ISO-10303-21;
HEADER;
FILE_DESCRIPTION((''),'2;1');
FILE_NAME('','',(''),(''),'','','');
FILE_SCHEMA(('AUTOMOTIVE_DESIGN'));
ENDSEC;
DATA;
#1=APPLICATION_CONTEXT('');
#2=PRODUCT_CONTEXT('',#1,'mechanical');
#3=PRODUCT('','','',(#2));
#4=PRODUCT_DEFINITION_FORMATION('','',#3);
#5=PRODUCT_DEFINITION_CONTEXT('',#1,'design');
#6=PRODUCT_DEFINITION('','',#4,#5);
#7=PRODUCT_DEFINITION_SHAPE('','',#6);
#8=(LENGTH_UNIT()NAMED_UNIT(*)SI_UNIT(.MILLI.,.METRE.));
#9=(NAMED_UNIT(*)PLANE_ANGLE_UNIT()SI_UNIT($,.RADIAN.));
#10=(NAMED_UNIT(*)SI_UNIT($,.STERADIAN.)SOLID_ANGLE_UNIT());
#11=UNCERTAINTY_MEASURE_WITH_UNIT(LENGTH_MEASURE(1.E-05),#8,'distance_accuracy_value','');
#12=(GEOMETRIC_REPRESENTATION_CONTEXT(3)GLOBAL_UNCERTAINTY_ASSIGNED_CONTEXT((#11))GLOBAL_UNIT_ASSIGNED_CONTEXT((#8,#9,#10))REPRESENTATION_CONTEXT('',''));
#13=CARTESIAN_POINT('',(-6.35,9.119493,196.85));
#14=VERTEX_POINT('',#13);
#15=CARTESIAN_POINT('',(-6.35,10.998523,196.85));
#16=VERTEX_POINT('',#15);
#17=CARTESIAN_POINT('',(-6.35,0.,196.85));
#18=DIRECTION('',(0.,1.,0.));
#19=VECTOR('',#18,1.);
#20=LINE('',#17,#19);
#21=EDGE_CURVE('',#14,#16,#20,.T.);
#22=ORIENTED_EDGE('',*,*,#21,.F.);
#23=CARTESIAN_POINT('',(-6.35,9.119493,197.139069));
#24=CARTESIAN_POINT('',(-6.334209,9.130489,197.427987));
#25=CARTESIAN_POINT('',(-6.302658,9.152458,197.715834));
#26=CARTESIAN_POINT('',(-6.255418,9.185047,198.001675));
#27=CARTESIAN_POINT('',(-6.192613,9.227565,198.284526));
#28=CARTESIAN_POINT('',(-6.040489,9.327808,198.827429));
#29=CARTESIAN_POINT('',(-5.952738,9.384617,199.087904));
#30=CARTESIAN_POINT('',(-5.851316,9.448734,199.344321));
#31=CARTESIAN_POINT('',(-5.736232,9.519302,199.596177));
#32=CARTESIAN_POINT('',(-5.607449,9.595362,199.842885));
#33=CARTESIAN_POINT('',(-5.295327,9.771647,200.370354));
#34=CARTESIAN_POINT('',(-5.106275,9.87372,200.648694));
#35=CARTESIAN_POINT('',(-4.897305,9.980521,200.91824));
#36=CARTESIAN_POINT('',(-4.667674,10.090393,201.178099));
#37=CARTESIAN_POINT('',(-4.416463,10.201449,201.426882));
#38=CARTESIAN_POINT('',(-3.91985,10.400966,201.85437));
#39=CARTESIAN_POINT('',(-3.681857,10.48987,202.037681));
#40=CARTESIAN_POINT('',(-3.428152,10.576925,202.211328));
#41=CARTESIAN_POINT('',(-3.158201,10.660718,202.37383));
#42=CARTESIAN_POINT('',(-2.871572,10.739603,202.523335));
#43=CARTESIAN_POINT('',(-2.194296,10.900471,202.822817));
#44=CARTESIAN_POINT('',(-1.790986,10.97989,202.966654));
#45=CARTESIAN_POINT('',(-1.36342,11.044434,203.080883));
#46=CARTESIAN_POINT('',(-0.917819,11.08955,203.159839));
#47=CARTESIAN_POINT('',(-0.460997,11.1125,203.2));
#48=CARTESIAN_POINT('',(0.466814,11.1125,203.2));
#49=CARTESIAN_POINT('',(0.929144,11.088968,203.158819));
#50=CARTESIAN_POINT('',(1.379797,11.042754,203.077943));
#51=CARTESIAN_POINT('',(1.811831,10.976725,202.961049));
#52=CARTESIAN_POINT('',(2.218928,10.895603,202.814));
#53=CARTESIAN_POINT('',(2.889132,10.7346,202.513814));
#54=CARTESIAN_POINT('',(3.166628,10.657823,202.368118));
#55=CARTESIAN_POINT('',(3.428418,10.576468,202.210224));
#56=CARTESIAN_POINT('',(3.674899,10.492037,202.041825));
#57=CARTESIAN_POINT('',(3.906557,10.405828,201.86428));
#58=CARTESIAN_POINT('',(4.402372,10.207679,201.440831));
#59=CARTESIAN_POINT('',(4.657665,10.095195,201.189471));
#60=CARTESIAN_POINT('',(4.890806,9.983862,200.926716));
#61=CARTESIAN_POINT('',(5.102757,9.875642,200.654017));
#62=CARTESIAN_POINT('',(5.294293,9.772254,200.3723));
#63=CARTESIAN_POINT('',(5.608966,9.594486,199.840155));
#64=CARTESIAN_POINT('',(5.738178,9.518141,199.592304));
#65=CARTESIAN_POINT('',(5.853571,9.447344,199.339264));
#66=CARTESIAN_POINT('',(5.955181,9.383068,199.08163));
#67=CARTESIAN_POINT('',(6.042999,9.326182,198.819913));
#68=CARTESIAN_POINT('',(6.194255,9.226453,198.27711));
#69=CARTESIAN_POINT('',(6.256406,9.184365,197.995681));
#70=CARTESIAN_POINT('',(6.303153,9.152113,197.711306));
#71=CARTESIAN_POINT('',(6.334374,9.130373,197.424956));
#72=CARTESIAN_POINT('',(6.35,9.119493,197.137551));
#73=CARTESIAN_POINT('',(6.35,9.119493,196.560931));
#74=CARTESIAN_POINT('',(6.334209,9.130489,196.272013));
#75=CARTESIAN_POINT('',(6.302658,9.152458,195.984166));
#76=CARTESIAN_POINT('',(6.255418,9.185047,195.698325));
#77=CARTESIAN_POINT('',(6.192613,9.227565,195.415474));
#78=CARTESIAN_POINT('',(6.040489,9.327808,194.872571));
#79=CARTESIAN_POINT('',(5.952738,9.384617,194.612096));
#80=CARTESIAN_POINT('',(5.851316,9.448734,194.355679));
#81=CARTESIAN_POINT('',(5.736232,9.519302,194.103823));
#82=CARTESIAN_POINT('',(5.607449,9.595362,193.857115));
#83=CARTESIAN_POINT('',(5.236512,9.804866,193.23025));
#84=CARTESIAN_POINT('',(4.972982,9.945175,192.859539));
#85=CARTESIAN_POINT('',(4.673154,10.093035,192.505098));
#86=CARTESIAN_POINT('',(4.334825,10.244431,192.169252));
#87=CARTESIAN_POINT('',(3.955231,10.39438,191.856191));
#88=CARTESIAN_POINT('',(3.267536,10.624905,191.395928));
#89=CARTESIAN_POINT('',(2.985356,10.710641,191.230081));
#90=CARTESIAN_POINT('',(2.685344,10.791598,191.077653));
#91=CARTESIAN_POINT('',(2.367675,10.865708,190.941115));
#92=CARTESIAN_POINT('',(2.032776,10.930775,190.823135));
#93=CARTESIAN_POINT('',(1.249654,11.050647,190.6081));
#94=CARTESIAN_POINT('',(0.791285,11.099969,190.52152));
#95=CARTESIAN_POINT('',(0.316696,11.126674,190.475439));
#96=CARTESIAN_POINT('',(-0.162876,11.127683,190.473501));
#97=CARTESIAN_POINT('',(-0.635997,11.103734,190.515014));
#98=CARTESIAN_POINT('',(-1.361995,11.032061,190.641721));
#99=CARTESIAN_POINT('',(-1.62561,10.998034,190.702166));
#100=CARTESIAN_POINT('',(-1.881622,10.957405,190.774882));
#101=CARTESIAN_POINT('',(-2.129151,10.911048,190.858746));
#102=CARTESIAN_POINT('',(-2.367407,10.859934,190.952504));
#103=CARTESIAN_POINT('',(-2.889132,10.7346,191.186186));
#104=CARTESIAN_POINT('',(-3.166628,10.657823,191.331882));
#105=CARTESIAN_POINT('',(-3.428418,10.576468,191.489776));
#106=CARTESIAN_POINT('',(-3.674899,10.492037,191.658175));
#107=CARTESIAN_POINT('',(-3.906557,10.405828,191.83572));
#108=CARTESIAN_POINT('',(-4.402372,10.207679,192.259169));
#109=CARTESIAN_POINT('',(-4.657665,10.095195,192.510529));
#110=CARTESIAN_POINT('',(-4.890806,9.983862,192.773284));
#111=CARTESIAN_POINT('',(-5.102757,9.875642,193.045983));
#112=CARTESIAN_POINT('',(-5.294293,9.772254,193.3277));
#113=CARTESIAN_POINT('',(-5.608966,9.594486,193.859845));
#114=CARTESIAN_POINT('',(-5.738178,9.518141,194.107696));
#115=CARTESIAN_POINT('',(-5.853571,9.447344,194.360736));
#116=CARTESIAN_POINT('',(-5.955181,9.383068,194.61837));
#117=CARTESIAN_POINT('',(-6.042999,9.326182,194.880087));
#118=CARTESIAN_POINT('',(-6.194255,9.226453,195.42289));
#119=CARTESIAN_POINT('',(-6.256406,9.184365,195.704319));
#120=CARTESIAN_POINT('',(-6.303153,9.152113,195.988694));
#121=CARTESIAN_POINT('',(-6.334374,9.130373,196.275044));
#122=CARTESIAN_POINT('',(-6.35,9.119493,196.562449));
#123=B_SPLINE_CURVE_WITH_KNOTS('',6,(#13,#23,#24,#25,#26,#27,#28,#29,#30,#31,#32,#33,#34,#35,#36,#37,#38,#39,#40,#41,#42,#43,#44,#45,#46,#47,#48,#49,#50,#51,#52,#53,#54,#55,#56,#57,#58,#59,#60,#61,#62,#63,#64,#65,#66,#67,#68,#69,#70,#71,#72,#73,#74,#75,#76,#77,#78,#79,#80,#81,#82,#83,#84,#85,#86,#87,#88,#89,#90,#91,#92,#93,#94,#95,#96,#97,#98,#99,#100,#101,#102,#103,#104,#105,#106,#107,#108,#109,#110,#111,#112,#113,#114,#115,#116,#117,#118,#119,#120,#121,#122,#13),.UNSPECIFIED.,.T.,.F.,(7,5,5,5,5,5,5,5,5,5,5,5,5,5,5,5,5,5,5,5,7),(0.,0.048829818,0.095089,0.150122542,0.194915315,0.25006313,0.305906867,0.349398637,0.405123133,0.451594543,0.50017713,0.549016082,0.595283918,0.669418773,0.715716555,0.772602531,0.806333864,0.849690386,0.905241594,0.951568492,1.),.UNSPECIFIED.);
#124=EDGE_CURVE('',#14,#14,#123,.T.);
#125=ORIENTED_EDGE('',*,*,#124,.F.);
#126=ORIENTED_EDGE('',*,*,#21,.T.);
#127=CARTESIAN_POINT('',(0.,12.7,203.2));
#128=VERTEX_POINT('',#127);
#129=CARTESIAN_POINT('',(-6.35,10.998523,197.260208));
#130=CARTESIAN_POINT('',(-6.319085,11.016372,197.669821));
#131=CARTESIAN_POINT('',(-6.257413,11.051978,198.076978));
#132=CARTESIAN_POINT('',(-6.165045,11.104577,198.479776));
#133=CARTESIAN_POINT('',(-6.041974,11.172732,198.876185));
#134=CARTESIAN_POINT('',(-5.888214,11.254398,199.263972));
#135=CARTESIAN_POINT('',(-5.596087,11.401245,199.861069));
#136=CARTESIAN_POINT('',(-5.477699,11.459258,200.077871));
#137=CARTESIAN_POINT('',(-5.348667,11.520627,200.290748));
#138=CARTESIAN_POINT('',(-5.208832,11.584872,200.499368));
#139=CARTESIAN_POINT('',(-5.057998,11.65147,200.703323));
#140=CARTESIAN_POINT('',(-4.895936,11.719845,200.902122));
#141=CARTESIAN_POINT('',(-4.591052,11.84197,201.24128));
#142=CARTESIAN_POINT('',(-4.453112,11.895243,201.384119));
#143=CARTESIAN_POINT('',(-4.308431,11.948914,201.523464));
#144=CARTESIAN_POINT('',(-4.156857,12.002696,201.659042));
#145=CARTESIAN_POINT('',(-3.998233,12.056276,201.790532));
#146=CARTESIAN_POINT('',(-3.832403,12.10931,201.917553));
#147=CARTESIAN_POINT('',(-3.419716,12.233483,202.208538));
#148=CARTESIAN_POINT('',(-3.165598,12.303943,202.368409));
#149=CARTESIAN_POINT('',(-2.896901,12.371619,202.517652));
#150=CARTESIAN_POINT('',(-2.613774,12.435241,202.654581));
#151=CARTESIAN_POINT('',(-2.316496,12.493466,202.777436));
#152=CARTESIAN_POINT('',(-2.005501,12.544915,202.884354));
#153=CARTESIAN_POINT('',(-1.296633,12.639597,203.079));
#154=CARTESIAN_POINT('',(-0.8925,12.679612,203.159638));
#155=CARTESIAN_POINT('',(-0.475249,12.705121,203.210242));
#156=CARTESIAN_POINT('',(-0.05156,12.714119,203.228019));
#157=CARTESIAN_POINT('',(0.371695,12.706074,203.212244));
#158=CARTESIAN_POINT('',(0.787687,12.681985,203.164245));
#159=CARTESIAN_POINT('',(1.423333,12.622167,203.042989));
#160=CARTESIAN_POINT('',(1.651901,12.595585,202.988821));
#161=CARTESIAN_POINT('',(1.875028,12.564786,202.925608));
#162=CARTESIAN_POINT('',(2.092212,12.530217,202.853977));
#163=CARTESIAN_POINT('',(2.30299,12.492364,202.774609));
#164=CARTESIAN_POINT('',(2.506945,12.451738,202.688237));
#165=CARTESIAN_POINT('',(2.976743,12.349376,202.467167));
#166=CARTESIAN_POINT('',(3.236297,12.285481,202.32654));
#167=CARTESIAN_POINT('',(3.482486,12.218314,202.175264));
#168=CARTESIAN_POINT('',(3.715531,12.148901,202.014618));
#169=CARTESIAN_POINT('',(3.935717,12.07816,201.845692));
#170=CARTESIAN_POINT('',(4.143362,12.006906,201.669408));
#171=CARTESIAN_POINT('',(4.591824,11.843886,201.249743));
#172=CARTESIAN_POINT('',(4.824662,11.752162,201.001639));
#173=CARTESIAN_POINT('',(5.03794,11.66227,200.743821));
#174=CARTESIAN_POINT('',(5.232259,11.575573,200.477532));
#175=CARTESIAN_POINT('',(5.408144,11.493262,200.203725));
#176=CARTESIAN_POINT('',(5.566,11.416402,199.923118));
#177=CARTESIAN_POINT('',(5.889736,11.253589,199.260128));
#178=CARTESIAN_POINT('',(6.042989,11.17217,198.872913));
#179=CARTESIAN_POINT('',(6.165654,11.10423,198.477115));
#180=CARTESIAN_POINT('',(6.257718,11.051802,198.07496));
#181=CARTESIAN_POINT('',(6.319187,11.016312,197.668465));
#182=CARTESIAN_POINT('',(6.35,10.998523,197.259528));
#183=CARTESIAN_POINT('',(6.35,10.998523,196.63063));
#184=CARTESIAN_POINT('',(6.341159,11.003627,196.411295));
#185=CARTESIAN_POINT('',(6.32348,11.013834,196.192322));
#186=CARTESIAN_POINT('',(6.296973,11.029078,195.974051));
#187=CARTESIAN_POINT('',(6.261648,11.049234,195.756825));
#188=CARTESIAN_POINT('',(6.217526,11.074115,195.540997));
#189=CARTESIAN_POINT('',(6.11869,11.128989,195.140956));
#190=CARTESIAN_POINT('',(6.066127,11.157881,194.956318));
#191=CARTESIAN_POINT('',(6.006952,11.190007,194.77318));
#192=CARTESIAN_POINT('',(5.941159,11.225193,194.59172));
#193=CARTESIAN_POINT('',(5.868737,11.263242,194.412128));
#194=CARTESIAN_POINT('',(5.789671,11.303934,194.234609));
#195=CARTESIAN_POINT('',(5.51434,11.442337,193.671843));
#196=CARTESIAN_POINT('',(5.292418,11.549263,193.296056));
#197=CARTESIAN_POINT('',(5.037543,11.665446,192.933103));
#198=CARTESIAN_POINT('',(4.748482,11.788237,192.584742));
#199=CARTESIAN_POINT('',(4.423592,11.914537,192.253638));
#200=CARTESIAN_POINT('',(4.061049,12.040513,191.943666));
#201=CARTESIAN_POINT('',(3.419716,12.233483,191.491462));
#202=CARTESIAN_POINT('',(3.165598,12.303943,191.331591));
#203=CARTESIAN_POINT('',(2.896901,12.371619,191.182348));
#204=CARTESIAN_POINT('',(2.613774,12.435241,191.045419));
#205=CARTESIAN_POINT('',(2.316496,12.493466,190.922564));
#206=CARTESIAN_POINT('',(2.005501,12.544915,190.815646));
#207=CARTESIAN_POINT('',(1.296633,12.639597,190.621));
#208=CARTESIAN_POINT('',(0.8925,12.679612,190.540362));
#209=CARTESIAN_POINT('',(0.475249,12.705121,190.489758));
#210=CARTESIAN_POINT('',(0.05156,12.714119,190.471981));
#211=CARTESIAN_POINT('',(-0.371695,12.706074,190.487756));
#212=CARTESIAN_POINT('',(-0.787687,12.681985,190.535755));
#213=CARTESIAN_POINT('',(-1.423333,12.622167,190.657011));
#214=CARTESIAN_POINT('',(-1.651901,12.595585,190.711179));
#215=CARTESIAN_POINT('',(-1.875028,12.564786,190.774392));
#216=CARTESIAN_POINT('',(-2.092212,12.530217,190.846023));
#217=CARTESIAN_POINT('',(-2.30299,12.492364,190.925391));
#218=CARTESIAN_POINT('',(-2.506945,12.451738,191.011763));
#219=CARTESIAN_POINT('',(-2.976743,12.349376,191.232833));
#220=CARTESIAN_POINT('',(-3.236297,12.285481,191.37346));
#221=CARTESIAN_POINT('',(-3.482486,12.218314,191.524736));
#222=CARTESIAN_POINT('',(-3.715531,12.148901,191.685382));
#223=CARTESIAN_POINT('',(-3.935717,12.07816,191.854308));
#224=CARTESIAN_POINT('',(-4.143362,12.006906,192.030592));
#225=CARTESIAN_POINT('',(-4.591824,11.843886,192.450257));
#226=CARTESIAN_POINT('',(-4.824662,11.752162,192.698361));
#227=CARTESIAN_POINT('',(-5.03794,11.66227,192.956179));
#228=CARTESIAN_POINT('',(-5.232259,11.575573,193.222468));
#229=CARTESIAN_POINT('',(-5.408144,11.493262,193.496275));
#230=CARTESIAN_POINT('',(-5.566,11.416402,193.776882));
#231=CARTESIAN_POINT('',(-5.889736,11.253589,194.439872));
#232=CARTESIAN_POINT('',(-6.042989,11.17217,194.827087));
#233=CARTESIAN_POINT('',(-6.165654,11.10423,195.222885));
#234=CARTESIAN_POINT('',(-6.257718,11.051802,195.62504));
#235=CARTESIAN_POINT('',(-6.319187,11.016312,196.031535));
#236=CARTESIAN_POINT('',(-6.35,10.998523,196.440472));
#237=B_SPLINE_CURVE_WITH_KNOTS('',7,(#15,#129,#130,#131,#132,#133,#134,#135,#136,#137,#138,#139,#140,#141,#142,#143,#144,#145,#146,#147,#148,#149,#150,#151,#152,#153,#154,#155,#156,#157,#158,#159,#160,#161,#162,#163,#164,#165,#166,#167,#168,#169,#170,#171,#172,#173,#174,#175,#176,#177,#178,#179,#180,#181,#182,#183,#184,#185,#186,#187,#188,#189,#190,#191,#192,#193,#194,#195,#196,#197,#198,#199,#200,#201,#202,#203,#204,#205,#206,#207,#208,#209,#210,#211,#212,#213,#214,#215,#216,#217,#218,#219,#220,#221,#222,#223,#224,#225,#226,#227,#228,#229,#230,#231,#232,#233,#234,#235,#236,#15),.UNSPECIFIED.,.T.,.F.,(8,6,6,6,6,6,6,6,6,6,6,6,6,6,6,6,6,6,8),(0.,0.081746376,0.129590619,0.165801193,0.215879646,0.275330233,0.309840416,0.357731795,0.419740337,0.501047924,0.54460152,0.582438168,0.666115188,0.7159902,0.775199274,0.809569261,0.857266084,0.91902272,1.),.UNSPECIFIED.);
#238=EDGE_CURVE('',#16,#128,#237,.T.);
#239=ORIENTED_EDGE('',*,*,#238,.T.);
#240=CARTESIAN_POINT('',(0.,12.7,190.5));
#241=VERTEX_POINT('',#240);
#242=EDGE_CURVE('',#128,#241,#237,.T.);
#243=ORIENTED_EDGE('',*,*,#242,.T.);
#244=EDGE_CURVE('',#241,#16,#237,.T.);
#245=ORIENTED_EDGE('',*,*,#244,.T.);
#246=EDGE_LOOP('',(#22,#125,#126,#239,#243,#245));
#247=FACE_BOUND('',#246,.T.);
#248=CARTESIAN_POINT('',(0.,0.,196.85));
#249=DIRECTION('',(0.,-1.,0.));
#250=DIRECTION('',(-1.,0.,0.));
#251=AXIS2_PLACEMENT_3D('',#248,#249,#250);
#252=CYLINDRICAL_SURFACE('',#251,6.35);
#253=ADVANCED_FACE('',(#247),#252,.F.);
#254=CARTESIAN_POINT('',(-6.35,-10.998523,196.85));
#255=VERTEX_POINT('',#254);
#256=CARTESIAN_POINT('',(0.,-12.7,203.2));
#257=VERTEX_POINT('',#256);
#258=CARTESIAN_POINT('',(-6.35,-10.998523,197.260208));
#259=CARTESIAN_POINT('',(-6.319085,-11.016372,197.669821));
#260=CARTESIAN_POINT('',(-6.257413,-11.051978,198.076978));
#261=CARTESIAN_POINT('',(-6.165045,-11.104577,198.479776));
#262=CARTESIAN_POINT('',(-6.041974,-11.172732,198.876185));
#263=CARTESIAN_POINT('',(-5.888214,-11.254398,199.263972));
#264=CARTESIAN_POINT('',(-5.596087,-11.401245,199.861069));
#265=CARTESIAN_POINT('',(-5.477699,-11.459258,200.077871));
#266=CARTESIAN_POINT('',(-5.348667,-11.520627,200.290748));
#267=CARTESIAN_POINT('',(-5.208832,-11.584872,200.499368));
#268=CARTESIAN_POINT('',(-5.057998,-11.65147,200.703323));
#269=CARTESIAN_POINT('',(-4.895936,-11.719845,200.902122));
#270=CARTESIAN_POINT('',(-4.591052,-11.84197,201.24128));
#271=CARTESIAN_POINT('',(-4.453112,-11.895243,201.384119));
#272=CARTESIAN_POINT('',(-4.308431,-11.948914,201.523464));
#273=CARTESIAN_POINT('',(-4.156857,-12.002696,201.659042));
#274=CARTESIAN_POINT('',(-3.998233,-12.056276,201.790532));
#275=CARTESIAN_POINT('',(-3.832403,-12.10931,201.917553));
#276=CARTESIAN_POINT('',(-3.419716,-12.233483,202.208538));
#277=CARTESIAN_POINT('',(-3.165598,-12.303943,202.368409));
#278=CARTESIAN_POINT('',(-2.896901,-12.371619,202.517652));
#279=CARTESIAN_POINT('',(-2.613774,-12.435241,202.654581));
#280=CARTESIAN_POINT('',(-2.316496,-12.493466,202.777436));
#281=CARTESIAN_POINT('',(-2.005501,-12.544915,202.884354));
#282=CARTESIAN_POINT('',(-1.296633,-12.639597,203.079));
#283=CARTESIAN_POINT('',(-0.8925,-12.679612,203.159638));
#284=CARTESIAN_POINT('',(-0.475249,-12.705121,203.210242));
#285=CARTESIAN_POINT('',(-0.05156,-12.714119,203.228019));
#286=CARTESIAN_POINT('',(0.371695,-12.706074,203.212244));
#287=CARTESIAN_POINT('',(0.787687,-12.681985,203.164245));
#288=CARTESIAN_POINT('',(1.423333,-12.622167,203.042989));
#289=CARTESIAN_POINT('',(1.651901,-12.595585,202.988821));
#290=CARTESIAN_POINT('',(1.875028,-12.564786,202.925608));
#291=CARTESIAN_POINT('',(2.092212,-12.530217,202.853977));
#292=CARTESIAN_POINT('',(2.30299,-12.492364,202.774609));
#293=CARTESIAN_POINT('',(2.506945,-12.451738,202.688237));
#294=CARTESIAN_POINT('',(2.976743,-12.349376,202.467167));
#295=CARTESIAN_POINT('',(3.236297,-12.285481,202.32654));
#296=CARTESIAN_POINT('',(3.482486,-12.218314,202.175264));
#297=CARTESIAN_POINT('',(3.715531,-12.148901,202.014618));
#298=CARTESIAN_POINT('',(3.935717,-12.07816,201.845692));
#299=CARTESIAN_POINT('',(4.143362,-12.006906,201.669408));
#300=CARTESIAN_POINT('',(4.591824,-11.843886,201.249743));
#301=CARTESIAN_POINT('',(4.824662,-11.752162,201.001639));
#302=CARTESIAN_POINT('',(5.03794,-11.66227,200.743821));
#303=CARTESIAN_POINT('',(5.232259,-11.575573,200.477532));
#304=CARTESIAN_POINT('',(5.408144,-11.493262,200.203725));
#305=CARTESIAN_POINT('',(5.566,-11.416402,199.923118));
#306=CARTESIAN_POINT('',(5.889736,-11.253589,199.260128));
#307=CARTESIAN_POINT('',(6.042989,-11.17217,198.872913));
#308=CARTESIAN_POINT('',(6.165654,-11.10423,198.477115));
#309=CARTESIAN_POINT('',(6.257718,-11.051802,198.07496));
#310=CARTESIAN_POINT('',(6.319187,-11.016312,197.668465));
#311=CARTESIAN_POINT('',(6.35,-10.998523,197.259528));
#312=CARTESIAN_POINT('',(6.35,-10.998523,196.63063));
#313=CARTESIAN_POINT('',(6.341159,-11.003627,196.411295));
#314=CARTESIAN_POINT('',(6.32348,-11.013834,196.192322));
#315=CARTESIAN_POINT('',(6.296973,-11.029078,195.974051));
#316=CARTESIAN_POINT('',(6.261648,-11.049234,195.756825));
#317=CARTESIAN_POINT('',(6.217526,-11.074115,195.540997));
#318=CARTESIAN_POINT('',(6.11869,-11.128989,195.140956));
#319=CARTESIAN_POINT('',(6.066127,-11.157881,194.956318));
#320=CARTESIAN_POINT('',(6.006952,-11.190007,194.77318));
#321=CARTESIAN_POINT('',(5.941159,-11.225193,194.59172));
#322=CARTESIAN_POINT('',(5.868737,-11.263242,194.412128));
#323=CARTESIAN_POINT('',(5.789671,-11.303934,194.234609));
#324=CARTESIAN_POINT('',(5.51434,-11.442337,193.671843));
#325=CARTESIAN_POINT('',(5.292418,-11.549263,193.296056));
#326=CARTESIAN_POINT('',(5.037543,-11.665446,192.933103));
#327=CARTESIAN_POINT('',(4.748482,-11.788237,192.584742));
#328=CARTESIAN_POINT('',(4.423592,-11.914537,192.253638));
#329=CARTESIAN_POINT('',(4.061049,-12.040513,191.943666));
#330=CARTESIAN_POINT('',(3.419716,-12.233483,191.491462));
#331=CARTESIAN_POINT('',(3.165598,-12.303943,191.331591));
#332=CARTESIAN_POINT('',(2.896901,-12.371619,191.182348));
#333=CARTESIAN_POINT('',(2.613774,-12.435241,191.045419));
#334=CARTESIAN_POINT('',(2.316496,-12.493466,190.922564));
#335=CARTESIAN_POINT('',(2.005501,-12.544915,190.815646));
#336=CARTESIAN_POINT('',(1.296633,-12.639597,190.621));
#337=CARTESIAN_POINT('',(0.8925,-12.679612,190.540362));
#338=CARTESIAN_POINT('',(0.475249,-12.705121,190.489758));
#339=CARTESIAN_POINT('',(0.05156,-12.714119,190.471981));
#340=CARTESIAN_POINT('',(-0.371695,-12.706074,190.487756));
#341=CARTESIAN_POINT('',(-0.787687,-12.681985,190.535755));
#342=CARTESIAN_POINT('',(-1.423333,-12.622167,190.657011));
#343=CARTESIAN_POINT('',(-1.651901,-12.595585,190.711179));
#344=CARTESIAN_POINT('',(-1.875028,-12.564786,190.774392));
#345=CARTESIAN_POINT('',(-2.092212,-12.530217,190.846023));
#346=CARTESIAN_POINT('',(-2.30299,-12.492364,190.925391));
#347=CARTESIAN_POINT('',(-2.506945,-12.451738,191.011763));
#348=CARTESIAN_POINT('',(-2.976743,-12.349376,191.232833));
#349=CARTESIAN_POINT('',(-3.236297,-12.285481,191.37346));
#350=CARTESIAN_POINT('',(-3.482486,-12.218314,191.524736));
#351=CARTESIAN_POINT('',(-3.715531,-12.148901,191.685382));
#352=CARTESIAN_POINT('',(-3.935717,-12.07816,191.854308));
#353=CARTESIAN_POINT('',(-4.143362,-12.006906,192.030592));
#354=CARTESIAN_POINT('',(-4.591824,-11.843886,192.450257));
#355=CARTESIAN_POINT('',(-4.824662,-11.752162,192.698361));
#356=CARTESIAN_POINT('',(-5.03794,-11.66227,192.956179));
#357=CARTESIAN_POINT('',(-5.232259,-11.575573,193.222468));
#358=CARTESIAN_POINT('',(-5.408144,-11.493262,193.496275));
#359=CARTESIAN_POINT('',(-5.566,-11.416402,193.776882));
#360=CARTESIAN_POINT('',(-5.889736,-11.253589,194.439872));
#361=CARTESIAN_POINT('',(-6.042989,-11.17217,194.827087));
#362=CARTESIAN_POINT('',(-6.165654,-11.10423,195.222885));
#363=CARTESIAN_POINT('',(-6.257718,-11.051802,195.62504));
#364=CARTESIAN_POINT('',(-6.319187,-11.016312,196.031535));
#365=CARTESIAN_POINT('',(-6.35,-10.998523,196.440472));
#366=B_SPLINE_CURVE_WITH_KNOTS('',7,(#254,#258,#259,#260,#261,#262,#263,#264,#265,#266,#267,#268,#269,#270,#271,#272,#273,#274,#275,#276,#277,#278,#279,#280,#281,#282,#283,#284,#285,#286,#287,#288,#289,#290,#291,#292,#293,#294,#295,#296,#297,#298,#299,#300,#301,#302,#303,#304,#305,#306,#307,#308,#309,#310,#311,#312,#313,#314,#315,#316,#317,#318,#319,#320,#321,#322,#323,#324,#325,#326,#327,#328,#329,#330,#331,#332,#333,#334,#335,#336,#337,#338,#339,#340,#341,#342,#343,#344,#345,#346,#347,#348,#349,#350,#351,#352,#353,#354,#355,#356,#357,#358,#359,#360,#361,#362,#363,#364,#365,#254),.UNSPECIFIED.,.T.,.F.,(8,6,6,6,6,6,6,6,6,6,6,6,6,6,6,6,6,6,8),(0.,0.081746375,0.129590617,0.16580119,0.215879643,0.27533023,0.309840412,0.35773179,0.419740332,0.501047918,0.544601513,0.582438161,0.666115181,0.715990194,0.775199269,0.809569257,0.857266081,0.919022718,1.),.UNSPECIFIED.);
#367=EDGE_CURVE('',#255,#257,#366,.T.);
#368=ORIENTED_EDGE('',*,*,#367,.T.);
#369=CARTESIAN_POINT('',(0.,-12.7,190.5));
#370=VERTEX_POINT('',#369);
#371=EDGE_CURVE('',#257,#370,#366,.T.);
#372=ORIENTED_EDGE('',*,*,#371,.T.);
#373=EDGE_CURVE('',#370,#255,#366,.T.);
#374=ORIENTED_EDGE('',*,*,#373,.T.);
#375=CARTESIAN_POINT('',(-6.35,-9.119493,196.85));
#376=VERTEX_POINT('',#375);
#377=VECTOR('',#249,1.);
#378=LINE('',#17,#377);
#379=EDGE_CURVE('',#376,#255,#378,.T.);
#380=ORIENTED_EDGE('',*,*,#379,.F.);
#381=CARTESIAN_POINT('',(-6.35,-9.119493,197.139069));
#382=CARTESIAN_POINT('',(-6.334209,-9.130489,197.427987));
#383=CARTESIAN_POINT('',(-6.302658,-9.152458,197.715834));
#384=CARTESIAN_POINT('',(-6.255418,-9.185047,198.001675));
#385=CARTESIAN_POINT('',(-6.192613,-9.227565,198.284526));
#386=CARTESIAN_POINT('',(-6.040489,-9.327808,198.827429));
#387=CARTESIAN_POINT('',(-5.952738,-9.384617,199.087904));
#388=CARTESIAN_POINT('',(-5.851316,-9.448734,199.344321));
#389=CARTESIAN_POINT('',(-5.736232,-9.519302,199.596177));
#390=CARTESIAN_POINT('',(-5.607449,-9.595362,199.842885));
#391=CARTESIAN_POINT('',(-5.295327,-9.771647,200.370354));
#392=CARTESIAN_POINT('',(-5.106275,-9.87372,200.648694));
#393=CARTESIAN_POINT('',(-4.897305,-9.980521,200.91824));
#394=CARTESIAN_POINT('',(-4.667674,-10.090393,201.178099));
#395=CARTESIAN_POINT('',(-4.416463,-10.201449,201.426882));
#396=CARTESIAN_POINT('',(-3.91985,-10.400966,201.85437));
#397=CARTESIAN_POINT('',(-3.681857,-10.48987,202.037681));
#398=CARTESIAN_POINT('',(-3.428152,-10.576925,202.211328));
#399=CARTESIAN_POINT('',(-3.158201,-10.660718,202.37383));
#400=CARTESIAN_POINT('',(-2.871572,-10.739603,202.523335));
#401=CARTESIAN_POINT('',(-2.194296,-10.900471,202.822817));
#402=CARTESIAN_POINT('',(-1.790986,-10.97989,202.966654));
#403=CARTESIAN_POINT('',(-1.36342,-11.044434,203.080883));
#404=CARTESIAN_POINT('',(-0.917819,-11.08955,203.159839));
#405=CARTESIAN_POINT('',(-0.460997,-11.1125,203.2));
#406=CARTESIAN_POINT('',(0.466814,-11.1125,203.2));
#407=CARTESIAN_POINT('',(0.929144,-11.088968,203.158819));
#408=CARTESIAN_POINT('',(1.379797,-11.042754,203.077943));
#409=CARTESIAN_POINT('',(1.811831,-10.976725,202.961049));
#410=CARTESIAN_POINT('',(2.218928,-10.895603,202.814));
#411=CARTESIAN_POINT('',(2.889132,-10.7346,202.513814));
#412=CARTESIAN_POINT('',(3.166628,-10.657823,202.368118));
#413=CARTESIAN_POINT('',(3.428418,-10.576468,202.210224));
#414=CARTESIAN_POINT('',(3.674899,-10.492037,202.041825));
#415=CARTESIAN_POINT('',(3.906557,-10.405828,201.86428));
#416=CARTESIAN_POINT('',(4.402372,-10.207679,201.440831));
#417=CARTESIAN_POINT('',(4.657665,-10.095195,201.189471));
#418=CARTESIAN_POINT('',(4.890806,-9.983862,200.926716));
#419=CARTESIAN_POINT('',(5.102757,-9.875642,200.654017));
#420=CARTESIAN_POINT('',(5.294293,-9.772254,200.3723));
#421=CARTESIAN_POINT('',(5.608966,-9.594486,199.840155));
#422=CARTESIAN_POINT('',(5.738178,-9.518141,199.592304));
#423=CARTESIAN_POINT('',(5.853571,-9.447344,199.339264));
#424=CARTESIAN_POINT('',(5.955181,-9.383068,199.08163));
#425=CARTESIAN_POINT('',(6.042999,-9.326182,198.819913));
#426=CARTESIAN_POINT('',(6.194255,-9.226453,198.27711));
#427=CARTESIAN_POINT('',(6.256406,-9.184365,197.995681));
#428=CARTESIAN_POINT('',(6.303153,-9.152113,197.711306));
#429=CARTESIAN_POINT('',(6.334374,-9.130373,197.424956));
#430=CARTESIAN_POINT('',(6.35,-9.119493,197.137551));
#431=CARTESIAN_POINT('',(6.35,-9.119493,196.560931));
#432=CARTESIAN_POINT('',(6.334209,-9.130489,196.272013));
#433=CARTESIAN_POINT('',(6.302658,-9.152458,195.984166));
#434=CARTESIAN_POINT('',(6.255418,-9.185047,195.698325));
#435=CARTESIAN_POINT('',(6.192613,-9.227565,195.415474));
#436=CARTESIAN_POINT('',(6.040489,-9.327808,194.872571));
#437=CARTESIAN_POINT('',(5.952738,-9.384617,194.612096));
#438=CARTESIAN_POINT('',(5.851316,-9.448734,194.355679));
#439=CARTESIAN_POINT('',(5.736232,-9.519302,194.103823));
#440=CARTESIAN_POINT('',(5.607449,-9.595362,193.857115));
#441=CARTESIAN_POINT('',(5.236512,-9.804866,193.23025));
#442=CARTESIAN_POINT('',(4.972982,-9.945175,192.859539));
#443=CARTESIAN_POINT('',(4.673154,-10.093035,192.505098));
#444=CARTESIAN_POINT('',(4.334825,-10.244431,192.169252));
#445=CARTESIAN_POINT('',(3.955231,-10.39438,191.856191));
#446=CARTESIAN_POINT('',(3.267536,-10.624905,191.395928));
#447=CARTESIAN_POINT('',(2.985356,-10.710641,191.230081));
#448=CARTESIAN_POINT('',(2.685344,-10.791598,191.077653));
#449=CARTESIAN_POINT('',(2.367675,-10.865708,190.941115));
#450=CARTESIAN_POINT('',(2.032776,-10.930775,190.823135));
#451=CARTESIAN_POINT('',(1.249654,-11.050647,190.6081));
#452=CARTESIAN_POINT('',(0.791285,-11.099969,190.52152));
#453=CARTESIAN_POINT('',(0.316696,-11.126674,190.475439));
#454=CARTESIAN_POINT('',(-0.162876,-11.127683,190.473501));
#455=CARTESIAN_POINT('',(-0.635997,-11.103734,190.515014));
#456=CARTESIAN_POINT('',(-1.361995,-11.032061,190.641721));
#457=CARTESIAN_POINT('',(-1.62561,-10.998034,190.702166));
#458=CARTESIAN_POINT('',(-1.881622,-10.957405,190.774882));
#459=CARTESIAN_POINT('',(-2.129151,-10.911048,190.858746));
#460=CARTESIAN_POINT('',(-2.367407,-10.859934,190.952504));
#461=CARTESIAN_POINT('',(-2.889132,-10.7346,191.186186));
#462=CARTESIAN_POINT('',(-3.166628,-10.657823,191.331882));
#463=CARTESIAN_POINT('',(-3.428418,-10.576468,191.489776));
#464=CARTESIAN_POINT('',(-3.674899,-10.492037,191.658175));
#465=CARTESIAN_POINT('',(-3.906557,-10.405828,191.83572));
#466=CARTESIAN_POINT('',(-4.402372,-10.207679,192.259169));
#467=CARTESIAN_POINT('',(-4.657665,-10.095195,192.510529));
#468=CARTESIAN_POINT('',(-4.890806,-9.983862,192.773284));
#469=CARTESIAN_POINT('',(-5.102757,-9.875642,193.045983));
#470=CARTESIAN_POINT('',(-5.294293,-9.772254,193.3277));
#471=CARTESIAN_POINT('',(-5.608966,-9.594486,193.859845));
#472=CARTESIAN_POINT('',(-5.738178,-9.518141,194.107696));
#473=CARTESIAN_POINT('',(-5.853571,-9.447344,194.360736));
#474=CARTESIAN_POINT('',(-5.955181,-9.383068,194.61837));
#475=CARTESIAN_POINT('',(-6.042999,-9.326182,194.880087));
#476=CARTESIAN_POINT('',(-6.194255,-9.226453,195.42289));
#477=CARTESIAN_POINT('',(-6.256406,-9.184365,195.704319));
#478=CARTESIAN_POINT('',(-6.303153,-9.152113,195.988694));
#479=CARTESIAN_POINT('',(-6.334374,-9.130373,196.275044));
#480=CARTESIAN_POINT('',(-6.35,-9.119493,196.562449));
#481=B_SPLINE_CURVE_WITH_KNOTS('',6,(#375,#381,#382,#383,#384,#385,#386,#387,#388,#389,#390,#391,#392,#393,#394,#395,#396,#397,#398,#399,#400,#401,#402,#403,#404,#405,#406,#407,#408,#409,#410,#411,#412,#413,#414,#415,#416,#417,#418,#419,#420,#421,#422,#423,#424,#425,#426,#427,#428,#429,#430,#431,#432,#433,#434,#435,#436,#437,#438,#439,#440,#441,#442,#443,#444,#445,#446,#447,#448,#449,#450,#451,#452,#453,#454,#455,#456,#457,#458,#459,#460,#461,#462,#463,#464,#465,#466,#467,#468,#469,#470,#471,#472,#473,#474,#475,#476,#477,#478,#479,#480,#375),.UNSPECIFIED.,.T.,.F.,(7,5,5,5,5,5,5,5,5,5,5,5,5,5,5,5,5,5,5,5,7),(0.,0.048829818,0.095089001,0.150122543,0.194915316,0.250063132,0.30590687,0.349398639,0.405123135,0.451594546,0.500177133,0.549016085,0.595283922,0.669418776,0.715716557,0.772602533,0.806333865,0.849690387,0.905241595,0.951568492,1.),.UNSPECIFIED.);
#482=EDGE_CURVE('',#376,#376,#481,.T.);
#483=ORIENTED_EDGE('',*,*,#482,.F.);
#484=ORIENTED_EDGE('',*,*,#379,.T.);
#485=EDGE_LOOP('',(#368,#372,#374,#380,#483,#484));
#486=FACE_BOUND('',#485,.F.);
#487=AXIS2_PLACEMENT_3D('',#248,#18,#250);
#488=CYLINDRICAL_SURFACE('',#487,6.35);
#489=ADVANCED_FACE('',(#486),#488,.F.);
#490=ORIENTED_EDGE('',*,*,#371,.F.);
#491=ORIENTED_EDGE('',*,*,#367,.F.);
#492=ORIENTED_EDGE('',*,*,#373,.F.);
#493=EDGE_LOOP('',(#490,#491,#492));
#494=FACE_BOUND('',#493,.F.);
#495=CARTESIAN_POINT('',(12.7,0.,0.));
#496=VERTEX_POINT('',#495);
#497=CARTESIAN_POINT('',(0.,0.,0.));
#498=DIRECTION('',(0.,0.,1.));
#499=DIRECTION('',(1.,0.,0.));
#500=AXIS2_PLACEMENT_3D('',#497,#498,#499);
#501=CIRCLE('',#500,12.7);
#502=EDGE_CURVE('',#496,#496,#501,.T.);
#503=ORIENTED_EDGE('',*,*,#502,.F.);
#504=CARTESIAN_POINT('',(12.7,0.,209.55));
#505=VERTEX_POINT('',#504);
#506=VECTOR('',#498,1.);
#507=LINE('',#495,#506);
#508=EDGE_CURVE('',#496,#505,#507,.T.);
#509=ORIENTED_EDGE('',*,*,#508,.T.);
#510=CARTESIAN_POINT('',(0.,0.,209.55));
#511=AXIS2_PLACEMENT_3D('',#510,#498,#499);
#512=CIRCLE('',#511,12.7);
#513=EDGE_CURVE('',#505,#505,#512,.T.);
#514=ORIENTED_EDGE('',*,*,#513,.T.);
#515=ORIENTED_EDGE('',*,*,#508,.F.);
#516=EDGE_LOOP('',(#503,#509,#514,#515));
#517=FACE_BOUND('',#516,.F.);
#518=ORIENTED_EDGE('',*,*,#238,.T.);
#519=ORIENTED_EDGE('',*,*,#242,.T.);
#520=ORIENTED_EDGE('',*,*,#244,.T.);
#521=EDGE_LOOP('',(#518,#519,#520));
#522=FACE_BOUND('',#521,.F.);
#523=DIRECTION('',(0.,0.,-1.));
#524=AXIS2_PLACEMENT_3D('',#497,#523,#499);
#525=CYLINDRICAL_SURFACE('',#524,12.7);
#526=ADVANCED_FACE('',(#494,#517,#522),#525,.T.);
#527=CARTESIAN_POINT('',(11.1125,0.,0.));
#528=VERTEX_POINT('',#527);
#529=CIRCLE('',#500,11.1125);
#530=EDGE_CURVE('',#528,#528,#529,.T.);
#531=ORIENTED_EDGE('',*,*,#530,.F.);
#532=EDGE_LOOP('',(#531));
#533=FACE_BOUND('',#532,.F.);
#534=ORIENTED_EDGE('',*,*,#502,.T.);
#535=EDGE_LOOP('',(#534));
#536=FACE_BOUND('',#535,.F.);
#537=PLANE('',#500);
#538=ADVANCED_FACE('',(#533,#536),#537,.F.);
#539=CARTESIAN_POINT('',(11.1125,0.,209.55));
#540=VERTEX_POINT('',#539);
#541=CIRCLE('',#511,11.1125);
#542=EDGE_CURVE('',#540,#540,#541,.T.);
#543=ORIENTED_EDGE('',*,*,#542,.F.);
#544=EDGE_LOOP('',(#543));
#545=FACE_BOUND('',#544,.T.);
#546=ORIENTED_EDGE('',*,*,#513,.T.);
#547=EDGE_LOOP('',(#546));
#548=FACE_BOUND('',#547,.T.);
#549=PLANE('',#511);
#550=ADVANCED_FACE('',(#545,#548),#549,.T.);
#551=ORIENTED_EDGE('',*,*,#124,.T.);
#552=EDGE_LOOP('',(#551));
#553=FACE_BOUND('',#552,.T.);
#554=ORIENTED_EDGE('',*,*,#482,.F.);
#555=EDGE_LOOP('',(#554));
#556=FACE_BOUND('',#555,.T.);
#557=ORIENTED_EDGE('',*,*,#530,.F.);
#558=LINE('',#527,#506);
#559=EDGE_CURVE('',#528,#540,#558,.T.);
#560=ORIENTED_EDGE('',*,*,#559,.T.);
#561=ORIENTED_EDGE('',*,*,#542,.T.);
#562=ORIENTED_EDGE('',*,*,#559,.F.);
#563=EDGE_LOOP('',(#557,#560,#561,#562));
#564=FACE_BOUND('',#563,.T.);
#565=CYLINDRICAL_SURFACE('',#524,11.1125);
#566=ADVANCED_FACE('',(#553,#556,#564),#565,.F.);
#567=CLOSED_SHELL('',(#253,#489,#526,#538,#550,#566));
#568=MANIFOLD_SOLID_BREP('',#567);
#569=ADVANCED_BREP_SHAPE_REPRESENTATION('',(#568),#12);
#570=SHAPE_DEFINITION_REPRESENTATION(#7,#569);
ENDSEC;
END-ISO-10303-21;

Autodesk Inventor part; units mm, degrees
ref_plane "YZ Plane" through (0, 0, 0) normal (1, 0, 0) x (0, 1, 0)
ref_plane "XY Plane" through (0, 0, 0) normal (0, 0, 1) x (1, 0, 0)
sketch "Sketch1" plane through (0, 0, 0) normal (0, 0, 1) x (1, 0, 0)
  circle A0 centre (0, 0) radius 12.7
  circle A1 centre (0, 0) radius 11.1125
  dimension "d0" = 25.4
  dimension "d1" = 22.225
extrude "Extrusion1" add sketch "Sketch1" along normal blind 209.55
sketch "Sketch2" plane through (0, 0, 0) normal (0, 1, 0) x (-1, 0, 0)
  circle A0 centre (0, 196.85) radius 6.35
  line L0 (0, 196.85) -> (0, 0) construction
  dimension "d4" = 12.7
  dimension "d5" = 196.85
extrude "Extrusion2" cut sketch "Sketch2" along normal mid plane 25.4
properties part number "Steel Pipe" material "Steel"
